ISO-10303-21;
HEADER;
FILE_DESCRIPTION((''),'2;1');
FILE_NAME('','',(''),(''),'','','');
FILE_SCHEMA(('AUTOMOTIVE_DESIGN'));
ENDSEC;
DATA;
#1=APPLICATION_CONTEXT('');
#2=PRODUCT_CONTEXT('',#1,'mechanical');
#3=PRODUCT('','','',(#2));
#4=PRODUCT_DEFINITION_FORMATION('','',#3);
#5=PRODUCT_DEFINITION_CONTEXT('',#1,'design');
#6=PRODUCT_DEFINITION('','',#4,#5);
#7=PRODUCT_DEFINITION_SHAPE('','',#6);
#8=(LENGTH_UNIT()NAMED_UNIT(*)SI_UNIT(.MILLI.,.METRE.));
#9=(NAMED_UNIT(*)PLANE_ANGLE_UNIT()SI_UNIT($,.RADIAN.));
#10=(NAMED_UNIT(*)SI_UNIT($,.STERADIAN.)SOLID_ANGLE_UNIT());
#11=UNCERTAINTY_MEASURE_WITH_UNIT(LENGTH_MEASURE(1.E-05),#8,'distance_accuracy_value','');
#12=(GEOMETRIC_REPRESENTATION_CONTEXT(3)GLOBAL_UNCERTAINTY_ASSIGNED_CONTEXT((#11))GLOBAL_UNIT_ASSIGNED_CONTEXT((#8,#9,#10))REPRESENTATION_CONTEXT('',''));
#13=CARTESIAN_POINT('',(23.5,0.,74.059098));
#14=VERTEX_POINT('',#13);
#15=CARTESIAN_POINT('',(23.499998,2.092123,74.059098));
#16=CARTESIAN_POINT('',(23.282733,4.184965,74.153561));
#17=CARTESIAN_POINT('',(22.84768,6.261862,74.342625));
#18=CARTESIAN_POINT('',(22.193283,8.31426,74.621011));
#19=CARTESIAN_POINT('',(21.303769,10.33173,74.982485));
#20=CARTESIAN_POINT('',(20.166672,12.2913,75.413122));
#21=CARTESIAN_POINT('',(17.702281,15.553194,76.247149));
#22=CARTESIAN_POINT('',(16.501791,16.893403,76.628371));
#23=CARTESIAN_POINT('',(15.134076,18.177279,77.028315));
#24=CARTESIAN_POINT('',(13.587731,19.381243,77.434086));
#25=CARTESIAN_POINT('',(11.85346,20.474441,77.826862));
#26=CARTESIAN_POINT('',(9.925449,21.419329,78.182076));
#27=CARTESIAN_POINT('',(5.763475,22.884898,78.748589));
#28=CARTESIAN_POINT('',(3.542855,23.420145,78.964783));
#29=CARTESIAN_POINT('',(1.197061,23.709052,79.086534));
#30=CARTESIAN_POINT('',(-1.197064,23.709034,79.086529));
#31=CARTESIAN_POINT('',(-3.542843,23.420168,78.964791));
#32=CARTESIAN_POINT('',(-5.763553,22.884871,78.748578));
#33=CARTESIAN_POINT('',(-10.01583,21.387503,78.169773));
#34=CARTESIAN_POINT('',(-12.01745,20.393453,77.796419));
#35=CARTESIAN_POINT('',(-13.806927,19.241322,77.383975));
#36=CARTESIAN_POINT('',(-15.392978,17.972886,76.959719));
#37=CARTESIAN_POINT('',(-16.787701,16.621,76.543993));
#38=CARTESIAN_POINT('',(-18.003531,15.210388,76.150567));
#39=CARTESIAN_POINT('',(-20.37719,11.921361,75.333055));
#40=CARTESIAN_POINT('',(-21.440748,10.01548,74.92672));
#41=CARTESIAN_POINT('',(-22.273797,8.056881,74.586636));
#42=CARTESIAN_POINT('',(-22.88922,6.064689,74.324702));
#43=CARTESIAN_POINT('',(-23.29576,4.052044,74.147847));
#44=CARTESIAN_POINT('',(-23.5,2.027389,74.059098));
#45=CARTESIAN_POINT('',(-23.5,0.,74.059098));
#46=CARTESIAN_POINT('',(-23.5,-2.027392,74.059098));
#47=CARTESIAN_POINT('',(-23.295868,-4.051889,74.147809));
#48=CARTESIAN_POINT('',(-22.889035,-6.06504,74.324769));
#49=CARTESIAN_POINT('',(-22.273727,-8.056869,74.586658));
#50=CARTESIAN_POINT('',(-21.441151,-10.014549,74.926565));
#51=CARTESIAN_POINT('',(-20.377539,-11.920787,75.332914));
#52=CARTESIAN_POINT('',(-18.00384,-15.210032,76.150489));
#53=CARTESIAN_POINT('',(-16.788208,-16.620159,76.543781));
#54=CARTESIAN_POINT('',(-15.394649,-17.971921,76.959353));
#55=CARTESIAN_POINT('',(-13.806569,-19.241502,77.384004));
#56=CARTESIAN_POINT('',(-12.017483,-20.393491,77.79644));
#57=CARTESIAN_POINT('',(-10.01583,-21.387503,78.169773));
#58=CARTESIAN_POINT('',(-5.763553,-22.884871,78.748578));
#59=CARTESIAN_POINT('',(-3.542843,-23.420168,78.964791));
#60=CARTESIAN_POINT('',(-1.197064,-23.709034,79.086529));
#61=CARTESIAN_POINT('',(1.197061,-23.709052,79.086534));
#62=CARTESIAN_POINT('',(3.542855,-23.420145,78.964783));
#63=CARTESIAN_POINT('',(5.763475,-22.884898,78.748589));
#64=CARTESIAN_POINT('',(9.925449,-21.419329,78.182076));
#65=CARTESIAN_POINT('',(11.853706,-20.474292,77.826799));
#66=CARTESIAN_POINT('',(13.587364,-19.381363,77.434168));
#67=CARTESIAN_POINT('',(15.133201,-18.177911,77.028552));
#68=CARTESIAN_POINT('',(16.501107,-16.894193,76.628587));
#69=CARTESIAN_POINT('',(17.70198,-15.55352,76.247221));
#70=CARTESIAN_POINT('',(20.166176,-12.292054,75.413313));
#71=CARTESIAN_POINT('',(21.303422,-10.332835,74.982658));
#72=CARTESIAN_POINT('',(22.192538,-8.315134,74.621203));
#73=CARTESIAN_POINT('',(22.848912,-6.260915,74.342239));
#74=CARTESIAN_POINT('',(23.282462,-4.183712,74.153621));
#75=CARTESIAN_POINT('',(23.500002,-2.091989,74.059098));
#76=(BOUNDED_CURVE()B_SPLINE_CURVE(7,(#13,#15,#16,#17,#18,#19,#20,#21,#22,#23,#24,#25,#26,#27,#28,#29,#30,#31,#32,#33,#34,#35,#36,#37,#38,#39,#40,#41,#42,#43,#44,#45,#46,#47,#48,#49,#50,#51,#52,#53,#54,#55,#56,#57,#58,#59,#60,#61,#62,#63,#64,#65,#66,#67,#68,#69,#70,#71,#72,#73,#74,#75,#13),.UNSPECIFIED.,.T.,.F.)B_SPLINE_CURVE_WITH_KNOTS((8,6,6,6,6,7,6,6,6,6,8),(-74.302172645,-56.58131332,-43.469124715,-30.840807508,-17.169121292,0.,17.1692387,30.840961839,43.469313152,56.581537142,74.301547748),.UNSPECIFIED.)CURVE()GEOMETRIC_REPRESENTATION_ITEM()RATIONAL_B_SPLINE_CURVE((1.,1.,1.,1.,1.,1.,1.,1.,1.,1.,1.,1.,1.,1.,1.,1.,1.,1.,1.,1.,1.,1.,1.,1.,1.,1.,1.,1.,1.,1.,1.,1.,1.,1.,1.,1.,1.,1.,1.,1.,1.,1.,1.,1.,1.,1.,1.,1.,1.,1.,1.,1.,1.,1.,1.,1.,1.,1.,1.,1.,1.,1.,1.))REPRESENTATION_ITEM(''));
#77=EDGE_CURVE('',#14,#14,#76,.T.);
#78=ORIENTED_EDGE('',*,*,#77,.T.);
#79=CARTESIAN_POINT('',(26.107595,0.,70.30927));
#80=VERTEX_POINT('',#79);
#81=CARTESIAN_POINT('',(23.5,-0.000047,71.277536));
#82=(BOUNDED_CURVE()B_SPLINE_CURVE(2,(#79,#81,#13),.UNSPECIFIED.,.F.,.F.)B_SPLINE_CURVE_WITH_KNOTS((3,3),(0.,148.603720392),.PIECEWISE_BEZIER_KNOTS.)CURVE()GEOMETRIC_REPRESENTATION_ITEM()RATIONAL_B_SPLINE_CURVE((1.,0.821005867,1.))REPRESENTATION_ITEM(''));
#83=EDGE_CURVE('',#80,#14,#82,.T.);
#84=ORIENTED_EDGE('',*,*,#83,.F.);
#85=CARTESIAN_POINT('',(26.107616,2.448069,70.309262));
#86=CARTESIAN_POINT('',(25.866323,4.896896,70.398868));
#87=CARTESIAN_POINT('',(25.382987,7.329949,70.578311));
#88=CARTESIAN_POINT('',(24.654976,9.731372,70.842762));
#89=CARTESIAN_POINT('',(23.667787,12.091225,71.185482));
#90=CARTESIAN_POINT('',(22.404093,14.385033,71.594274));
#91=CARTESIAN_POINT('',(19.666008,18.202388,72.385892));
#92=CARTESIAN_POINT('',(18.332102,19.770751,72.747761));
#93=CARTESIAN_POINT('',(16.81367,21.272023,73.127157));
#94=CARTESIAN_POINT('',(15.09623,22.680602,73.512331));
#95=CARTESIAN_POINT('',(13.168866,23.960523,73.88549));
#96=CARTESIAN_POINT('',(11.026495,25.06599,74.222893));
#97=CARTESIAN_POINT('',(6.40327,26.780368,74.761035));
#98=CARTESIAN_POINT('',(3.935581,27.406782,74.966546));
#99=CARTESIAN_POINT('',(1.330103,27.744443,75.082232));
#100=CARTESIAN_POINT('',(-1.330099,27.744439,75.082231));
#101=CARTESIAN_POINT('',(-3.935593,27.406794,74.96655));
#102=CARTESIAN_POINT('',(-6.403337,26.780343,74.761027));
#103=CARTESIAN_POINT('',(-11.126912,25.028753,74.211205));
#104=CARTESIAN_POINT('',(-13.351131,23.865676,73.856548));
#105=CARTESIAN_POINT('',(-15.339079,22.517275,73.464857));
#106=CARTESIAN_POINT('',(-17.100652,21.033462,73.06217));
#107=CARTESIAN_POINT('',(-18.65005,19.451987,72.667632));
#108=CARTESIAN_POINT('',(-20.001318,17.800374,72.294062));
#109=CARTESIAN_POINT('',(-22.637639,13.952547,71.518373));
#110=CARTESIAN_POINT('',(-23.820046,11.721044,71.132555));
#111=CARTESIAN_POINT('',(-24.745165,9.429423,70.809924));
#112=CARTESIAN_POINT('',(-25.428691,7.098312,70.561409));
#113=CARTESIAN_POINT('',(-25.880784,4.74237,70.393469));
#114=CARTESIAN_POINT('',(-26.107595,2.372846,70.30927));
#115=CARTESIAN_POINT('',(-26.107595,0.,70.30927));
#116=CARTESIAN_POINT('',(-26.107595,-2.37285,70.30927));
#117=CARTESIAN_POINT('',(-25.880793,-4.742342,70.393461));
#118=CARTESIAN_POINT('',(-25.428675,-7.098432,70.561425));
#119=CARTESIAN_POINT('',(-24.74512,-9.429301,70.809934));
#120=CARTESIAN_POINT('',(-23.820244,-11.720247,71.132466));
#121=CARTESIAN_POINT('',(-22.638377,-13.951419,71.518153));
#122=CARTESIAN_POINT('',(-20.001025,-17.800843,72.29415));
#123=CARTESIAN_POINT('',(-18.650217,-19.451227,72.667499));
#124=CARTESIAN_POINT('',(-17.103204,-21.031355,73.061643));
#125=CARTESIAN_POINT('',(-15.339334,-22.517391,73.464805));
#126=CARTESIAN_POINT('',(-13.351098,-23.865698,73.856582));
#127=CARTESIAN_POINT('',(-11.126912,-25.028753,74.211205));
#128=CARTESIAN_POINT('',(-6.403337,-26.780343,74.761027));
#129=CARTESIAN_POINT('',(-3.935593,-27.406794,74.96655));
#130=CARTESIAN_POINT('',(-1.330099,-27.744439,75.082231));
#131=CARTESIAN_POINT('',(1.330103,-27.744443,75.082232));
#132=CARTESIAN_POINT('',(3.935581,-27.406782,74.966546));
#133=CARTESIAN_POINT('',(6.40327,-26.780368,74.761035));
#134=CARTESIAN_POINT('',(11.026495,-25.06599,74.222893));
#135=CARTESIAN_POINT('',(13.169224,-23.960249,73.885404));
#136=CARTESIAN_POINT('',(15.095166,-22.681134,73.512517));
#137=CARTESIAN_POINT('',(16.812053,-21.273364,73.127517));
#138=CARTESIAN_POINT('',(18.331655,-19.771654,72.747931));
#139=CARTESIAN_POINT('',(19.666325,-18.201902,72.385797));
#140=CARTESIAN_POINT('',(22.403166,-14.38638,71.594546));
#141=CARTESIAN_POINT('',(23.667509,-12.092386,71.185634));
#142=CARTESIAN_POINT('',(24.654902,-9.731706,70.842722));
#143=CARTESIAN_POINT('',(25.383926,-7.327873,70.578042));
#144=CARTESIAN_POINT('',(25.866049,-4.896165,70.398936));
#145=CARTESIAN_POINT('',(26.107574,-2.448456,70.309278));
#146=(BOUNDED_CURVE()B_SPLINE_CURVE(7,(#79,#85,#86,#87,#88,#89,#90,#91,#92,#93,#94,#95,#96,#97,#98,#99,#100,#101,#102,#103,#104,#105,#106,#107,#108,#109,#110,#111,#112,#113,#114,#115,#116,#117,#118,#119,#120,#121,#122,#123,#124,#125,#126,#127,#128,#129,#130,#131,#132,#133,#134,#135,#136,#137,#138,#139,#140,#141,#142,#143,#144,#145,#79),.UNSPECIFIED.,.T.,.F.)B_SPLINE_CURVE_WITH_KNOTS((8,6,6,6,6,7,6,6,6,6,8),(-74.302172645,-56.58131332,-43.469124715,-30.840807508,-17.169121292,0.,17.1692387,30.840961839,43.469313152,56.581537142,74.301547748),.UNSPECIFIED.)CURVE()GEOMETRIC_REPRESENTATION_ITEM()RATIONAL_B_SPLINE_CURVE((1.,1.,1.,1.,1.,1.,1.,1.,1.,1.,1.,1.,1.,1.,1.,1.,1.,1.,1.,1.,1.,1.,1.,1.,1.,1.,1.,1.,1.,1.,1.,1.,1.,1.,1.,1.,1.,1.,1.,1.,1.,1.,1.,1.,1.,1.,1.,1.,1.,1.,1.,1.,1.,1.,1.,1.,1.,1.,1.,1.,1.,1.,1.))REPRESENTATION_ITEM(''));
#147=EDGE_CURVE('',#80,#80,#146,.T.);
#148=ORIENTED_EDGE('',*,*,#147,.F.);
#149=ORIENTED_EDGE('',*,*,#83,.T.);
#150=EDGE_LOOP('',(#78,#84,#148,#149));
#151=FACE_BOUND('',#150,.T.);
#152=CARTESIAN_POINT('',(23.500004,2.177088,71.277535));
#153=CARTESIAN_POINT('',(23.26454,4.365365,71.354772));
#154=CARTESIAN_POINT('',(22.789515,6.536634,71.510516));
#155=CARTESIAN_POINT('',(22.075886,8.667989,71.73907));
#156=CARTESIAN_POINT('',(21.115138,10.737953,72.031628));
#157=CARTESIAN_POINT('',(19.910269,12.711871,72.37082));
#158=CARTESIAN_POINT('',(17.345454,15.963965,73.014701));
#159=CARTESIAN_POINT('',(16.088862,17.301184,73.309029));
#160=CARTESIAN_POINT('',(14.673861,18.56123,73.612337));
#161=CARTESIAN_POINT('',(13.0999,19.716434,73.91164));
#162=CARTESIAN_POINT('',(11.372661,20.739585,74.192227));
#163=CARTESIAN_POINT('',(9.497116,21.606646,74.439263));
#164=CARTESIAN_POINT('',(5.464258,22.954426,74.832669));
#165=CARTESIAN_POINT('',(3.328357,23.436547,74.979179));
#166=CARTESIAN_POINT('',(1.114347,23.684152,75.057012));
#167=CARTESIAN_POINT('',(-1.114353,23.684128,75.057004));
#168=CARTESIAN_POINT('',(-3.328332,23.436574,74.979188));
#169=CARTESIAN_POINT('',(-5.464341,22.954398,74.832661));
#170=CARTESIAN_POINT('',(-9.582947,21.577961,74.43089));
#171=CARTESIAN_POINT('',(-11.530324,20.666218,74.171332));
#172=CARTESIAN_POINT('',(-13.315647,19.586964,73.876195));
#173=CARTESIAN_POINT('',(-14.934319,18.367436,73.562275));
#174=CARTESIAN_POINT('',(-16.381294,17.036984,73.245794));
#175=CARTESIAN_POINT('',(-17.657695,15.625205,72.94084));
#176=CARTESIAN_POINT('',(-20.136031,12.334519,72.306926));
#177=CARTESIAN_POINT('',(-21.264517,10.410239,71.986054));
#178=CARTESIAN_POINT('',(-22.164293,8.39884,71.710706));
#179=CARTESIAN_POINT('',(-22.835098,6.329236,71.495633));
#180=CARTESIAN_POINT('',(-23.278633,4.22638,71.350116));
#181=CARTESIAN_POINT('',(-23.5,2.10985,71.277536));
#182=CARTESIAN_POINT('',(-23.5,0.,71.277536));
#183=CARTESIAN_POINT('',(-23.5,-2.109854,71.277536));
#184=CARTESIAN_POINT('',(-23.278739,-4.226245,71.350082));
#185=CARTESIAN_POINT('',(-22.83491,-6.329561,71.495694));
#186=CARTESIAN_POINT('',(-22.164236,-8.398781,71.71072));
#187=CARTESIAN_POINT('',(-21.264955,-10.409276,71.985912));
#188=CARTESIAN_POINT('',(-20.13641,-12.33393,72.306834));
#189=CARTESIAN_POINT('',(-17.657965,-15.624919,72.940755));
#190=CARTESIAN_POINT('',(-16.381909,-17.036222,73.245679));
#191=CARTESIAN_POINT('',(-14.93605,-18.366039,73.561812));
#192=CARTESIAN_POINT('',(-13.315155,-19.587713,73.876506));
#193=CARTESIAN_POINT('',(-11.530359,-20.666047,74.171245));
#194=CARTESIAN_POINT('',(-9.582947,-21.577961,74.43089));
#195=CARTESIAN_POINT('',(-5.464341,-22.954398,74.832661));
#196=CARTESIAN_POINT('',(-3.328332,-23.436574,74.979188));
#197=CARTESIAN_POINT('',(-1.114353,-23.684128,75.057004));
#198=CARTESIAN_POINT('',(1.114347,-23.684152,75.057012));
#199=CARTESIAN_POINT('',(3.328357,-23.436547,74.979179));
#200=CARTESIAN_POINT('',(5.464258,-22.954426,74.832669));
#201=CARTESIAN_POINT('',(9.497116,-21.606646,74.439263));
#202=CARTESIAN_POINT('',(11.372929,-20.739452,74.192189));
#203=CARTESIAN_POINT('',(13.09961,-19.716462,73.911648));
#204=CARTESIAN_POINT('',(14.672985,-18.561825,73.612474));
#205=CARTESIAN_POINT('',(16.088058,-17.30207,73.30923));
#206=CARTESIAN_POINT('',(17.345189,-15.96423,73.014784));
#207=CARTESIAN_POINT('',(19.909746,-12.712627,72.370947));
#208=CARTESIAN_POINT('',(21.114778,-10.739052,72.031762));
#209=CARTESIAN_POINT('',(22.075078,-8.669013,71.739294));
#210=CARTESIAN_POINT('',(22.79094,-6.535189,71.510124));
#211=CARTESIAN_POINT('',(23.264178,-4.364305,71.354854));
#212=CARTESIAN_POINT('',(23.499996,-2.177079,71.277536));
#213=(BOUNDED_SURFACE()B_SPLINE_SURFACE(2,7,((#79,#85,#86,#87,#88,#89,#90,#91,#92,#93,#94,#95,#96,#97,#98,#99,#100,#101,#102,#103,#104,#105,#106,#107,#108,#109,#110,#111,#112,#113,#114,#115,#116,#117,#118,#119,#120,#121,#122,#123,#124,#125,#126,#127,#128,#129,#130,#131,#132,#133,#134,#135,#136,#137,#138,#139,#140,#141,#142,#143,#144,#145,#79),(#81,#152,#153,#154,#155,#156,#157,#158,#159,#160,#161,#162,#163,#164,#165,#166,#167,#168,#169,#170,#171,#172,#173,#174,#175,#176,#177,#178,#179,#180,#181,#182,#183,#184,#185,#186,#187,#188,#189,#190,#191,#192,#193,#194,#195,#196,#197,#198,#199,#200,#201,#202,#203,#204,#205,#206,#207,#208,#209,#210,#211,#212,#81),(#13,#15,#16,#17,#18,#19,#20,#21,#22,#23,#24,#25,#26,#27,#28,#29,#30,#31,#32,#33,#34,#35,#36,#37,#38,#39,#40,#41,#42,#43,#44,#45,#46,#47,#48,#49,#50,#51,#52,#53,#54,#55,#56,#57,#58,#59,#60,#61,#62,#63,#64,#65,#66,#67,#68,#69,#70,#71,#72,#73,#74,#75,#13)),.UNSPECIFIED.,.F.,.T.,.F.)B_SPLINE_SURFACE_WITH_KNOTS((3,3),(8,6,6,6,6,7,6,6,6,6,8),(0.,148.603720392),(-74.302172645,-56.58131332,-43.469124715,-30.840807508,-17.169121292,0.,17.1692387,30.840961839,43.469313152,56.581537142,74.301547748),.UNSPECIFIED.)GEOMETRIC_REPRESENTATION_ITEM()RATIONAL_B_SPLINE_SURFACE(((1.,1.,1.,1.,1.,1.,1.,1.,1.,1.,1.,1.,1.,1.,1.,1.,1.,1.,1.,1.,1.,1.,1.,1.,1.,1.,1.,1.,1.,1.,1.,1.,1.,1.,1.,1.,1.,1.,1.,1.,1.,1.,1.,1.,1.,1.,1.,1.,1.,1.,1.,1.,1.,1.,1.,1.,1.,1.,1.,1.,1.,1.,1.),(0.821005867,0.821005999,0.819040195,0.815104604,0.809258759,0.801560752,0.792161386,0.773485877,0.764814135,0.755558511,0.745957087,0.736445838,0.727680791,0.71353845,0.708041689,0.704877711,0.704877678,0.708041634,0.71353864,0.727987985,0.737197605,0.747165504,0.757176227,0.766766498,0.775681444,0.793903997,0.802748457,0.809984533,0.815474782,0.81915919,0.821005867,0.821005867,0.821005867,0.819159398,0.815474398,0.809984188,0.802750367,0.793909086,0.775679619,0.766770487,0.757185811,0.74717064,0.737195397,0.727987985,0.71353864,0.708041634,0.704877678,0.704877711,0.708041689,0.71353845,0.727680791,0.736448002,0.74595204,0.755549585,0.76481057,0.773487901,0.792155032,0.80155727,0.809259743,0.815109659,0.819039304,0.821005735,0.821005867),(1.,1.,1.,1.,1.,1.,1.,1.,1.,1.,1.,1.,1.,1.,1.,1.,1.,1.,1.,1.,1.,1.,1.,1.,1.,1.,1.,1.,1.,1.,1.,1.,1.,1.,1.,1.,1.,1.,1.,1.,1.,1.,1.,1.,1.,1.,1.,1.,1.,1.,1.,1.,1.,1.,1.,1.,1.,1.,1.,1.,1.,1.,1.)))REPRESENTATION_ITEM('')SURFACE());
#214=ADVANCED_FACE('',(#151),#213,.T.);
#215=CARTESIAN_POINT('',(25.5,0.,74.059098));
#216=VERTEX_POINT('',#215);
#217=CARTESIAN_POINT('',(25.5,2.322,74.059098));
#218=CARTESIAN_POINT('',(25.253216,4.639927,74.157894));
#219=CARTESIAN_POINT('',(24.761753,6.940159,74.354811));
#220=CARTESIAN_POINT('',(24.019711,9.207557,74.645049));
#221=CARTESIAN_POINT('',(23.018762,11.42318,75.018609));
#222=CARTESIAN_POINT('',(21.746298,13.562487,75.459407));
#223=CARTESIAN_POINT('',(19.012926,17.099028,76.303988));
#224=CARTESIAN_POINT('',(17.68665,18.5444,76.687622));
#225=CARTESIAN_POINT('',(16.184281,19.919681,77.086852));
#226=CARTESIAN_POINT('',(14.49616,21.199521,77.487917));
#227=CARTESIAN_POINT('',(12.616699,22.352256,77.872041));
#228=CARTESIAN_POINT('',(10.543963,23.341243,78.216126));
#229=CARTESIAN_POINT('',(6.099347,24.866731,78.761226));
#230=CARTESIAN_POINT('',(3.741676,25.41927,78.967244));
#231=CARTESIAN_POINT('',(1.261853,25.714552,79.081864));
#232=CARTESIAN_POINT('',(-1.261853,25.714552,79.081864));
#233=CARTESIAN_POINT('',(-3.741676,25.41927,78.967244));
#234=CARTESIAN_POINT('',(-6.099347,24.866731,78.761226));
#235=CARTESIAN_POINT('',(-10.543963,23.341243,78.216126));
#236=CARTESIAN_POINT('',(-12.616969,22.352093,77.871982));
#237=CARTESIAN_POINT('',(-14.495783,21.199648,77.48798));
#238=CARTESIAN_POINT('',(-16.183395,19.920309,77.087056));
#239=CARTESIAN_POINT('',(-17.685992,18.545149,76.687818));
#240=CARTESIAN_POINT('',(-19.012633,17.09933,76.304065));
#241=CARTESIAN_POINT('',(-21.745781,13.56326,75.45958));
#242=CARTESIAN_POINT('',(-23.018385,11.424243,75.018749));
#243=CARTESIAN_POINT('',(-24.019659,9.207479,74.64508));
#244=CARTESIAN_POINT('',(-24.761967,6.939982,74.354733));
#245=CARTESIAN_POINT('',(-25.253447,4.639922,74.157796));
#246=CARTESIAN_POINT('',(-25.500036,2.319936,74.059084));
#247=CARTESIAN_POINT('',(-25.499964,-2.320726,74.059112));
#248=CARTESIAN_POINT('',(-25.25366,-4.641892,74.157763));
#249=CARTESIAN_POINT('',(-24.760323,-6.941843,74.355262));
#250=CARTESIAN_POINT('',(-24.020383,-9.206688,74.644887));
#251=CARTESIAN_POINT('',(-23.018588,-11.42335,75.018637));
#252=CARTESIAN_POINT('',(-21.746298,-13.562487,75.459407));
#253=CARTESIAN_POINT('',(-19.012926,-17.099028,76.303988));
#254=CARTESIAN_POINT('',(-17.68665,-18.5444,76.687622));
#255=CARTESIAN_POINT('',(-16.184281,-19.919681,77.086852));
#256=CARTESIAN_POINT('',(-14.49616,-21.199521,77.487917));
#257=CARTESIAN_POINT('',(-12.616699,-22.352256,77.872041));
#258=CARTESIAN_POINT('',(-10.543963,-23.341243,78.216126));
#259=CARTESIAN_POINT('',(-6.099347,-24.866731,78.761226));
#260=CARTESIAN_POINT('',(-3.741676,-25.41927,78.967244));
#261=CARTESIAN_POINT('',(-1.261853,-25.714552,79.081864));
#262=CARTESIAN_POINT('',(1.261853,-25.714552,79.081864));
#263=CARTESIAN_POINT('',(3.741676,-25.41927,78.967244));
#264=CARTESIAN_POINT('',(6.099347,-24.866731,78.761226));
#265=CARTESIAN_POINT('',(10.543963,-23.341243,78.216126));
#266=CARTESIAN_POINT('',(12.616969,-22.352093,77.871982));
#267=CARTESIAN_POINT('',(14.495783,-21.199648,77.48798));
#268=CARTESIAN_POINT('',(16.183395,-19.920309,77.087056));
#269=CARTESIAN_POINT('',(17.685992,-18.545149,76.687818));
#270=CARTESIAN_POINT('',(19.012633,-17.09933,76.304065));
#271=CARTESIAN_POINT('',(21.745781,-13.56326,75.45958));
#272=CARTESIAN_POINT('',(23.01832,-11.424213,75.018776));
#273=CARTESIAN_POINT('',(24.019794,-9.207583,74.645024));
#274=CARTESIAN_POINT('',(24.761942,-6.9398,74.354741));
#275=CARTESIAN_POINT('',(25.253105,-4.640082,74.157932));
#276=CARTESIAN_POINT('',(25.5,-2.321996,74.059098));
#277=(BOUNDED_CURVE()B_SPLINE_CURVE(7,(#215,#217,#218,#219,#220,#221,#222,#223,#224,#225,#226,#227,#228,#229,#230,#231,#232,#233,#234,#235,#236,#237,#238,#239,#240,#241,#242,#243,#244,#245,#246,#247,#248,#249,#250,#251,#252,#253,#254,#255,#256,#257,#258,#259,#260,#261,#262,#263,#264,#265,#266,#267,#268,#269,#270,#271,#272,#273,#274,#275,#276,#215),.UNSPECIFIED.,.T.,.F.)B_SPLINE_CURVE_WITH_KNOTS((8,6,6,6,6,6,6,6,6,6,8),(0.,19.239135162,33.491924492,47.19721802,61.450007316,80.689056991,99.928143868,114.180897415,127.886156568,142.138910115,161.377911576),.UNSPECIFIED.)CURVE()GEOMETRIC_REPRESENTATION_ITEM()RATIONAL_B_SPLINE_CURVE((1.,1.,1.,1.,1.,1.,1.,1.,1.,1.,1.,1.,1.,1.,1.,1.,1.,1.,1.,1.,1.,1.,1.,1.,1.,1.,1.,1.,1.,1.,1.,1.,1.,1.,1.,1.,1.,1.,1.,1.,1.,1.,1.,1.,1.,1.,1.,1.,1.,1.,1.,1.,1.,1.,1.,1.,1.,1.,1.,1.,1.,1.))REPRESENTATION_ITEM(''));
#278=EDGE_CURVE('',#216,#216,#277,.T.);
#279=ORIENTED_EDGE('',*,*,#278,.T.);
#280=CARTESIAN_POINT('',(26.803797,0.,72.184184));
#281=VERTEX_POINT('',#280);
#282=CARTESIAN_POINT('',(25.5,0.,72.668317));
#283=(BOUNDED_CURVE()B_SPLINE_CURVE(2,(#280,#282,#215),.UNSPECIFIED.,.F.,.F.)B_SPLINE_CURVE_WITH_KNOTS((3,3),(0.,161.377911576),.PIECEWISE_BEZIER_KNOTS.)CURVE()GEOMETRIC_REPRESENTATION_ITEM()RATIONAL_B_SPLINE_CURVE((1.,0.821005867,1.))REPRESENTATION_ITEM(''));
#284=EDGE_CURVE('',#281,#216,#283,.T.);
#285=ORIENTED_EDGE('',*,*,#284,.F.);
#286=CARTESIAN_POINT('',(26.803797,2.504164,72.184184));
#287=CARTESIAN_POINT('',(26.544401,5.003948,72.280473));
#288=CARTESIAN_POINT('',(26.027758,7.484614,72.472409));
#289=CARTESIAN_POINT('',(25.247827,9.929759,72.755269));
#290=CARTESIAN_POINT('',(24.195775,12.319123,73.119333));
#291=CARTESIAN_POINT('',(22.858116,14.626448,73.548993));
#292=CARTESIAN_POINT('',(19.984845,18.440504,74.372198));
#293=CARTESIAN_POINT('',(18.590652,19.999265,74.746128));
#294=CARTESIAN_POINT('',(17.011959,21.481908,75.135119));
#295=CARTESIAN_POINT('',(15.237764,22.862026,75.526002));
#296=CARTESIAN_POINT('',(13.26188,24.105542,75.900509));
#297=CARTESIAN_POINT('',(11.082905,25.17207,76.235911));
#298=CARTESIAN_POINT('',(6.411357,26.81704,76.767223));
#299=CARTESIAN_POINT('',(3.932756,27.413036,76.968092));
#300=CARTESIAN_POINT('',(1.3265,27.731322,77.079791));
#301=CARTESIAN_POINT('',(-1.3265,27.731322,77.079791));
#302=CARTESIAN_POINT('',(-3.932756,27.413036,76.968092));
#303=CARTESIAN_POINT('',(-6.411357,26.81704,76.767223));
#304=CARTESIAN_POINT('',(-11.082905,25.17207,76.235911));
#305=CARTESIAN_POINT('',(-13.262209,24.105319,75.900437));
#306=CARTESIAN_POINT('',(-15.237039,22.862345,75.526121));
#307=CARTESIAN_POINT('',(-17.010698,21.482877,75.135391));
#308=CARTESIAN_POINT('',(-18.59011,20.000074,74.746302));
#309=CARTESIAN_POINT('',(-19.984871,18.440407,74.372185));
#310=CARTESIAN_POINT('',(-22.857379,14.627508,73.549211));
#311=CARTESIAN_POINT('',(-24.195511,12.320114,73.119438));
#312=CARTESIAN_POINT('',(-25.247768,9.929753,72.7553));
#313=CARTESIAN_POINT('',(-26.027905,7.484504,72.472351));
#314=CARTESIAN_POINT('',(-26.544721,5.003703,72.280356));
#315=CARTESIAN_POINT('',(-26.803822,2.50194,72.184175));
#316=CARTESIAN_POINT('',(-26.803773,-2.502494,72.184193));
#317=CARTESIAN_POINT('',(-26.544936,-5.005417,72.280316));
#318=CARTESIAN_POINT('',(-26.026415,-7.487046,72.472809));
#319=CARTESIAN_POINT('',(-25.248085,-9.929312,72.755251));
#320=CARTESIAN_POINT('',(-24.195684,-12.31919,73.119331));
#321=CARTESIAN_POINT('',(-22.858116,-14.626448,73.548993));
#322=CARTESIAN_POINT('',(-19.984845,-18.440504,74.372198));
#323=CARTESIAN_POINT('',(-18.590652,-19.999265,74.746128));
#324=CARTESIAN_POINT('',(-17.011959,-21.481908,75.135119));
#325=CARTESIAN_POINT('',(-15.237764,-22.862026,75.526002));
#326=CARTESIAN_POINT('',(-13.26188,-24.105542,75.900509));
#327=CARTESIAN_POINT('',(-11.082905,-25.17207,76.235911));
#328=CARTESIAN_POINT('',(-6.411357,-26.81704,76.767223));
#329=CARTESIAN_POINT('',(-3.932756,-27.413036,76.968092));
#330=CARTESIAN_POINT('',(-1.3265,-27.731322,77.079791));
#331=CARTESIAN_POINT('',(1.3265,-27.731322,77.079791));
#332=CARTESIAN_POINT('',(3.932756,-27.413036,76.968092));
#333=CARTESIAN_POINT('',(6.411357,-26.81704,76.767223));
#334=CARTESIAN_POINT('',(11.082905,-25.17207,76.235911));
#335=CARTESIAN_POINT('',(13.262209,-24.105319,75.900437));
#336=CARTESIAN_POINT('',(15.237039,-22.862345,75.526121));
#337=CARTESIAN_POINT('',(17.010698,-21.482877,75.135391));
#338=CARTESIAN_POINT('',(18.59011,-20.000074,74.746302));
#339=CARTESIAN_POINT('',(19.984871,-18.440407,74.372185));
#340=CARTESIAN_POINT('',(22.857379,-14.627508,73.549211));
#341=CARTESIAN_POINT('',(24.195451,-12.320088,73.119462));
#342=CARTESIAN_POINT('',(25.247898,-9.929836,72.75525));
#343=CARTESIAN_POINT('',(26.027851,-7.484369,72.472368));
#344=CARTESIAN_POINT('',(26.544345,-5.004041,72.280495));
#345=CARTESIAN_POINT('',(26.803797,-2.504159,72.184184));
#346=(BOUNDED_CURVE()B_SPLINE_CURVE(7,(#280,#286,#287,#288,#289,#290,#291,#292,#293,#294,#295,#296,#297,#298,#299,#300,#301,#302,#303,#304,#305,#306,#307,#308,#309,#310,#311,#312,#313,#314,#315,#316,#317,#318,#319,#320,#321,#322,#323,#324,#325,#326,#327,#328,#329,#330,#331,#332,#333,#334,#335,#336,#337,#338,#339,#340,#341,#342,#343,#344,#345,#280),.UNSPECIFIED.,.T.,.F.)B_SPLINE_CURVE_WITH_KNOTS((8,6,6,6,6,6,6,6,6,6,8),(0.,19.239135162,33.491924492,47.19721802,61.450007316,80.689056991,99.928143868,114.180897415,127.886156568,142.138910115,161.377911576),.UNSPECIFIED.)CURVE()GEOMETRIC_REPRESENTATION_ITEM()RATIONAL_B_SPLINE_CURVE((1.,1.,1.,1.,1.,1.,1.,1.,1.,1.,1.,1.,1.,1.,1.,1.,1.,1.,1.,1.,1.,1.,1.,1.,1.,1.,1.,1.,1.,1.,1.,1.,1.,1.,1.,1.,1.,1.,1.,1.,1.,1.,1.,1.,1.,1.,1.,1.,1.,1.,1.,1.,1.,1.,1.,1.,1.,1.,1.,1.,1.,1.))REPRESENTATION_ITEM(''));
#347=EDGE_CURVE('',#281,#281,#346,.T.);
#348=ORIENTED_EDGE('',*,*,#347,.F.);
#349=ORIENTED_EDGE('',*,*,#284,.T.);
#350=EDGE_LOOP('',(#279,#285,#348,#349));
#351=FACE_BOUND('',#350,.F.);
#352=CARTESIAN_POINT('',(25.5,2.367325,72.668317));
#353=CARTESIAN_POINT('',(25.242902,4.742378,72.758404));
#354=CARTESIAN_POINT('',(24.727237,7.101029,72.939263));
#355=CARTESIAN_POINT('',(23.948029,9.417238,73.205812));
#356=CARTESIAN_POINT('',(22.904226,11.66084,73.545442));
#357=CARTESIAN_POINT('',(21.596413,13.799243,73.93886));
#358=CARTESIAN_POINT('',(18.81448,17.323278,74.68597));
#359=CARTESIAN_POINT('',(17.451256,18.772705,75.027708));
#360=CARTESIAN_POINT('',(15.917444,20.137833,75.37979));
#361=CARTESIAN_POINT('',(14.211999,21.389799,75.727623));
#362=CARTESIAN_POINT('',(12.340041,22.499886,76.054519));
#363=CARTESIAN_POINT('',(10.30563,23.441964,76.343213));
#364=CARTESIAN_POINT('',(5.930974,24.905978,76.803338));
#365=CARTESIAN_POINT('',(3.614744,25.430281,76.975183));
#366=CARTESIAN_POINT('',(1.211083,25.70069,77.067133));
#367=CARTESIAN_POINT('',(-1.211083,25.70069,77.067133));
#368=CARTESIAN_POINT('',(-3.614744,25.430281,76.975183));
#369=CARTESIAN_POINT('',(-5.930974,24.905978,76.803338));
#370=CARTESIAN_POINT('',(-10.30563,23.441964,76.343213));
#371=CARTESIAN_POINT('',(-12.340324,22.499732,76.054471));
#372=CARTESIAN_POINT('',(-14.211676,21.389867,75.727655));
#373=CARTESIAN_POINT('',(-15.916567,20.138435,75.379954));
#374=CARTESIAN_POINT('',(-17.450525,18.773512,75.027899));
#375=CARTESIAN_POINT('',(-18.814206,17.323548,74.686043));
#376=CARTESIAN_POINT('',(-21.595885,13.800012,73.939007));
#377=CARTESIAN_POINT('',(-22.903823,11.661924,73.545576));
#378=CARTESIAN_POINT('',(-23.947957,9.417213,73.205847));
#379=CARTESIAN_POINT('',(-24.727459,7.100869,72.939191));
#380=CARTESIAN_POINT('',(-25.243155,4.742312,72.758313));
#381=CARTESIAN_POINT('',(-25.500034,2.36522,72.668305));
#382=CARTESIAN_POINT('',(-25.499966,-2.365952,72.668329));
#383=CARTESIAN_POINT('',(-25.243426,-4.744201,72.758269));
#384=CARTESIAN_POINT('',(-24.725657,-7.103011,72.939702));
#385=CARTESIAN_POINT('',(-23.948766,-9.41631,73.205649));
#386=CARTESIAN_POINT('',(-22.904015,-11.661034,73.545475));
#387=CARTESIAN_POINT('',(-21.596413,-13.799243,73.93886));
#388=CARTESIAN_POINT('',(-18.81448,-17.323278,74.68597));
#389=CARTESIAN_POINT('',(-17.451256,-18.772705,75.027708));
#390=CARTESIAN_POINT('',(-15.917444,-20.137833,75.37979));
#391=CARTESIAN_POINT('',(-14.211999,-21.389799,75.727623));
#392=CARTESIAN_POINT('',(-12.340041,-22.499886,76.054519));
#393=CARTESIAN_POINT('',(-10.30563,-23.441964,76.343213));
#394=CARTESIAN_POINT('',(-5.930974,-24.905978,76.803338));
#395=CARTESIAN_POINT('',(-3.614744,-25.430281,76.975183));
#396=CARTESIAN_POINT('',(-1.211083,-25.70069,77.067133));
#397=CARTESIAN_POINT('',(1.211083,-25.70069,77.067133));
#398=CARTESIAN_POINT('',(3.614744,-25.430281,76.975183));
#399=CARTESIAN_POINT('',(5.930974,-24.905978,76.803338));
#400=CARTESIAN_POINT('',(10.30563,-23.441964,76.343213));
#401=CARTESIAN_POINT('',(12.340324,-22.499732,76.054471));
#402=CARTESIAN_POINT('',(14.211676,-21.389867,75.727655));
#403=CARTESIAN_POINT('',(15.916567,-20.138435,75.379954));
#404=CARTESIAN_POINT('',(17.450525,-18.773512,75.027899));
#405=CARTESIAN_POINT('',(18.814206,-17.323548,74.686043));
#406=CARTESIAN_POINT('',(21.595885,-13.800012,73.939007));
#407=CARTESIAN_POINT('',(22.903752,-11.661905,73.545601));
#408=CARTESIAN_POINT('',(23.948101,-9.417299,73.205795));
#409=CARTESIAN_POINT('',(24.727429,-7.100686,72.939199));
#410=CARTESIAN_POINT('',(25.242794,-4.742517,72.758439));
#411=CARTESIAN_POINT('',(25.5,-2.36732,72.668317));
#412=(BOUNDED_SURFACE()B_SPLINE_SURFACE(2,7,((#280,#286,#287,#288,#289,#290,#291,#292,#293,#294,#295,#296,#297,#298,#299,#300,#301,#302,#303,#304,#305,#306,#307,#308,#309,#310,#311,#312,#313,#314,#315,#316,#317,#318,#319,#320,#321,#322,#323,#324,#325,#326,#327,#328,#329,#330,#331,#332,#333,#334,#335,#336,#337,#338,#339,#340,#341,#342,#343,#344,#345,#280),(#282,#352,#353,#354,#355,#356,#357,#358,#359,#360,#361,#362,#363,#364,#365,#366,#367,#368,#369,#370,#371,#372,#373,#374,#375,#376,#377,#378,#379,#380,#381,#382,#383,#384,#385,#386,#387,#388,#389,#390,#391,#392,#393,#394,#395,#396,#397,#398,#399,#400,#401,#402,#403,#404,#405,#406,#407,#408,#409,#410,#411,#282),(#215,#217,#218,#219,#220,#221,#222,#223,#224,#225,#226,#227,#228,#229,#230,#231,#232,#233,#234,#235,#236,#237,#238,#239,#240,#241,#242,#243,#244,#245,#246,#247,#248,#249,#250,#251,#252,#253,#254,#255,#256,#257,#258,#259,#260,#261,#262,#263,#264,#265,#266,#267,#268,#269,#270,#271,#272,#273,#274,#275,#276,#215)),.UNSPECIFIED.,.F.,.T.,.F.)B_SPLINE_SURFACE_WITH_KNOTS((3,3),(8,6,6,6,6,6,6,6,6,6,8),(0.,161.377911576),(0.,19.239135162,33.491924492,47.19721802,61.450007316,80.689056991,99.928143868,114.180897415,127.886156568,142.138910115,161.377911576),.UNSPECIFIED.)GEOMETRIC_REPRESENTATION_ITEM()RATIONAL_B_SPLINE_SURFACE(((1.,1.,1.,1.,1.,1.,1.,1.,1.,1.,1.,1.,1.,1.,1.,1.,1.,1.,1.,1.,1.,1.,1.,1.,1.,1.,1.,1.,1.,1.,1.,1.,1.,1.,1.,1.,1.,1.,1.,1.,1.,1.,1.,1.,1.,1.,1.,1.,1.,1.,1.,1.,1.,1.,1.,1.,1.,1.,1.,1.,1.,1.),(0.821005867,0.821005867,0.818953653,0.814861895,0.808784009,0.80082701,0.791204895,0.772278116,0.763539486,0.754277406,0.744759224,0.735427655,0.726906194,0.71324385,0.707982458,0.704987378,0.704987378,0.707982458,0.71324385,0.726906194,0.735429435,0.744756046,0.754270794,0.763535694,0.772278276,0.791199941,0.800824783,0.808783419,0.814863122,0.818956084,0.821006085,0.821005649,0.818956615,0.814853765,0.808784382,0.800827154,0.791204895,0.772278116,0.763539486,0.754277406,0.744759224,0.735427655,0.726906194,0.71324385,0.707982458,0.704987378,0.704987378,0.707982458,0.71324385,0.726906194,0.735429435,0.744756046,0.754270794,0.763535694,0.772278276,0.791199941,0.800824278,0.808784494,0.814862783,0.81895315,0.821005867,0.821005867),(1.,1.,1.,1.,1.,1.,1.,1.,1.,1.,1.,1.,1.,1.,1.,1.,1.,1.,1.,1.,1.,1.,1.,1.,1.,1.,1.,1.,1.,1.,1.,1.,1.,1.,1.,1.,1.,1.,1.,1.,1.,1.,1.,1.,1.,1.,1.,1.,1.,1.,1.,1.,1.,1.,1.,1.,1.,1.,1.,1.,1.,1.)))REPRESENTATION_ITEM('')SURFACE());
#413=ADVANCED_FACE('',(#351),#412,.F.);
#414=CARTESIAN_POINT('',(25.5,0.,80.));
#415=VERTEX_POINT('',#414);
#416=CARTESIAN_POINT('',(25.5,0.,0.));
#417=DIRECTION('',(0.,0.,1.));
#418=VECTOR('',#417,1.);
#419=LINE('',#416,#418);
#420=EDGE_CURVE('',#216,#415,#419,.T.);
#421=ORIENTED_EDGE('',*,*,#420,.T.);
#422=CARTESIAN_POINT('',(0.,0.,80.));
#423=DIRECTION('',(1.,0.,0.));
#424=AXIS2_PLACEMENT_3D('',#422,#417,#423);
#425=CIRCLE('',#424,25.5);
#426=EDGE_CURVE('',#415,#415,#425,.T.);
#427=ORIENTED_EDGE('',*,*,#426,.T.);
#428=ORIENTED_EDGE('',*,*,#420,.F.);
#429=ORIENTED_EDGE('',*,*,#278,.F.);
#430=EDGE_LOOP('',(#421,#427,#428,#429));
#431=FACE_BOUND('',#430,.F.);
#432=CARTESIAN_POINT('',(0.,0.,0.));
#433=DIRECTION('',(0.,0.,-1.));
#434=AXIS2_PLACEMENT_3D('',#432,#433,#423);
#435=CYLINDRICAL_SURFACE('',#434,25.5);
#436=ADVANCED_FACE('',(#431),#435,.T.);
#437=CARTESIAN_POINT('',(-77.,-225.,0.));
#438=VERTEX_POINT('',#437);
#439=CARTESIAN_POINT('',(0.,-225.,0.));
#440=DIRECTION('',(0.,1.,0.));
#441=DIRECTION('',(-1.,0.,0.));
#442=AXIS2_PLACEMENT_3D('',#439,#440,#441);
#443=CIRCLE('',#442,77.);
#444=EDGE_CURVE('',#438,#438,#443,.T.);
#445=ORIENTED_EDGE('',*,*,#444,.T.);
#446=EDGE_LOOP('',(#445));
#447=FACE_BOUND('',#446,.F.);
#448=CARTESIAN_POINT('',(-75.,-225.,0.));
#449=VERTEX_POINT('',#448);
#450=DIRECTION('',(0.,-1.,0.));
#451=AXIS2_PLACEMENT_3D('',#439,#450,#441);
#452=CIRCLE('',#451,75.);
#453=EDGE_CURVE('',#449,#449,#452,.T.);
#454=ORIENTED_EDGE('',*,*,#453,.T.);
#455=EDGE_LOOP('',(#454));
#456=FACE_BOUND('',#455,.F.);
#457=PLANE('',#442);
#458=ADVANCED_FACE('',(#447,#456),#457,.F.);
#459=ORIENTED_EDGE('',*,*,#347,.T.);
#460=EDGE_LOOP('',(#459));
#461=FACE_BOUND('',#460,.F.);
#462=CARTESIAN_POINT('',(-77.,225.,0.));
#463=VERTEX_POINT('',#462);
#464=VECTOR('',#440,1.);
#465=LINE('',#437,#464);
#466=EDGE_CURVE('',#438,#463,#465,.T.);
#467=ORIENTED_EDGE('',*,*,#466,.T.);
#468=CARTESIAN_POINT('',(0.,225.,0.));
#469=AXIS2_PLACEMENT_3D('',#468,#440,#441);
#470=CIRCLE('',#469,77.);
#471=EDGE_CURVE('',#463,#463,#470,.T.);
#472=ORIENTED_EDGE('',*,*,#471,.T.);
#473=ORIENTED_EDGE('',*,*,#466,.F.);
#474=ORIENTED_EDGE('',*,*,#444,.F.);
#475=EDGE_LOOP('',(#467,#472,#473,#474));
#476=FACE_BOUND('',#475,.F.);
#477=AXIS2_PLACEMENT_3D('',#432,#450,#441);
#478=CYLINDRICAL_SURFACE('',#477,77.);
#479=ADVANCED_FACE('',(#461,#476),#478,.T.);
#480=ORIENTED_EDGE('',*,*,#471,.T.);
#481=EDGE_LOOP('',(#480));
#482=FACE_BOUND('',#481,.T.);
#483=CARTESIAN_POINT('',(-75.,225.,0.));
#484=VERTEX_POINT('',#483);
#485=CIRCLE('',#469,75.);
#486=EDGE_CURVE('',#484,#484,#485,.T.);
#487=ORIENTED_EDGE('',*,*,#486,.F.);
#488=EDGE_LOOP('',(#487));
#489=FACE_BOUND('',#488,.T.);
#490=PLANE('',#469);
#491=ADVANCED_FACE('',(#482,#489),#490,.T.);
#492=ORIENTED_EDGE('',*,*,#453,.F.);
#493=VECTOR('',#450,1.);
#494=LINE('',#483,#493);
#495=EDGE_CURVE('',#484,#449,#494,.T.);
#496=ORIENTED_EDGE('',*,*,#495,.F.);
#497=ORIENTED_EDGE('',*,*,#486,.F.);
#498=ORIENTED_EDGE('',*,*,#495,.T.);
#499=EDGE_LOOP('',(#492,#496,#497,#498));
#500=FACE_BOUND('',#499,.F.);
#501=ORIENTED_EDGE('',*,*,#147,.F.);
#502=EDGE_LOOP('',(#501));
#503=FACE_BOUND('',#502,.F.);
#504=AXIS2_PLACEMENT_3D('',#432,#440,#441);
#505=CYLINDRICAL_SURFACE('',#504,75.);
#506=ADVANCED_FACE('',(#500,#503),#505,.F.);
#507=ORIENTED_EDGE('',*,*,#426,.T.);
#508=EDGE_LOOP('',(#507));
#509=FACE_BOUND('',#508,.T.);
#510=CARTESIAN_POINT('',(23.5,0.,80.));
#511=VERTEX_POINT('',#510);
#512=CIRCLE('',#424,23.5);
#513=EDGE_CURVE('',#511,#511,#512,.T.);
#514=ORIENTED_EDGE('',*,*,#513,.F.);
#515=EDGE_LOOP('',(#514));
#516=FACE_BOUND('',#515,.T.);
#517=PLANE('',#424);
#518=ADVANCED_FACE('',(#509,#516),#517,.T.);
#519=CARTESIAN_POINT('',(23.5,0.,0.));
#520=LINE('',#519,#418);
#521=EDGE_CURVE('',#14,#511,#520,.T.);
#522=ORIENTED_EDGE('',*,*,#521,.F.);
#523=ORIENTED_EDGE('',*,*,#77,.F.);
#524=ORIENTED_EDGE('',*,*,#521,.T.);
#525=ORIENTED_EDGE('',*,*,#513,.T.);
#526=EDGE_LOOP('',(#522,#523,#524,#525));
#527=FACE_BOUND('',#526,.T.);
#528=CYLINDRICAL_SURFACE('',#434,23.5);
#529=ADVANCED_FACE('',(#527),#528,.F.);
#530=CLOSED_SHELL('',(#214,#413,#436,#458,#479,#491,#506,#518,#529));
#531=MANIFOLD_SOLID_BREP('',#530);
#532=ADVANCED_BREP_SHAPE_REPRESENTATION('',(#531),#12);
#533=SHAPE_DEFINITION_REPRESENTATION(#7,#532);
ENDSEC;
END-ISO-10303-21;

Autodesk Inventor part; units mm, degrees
ref_plane "YZ Plane" through (0, 0, 0) normal (1, 0, 0) x (0, 1, 0)
ref_plane "XZ Plane" through (0, 0, 0) normal (0, 1, 0) x (-1, 0, 0)
ref_plane "XY Plane" through (0, 0, 0) normal (0, 0, 1) x (1, 0, 0)
sketch "Szkic8" plane through (0, 0, 0) normal (0, 1, 0) x (-1, 0, 0)
  circle A0 centre (0, 0) radius 77
  circle A1 centre (0, 0) radius 75
  dimension "d53" = 154
  dimension "d54" = 2
extrude "Wyciągnięcie proste2" add sketch "Szkic8" along normal mid plane 450
sketch "Szkic13" plane through (0, 0, 0) normal (0, 0, 1) x (1, 0, 0)
  circle A0 centre (0, 0) radius 25.5
  circle A1 centre (0, 0) radius 23.5
  dimension "d67" = 51
  dimension "d68" = 2
extrude "Wyciągnięcie proste6" add sketch "Szkic13" along normal blind 80
sketch "Szkic14" plane through (0, 0, 80) normal (0, 0, 1) x (1, 0, 0)
  circle A0 centre (0, 0) radius 23.5 projected
extrude "Wyciągnięcie proste7" cut sketch "Szkic14" against normal blind 80
sketch "Szkic15" plane through (0, -225, 0) normal (0, -1, 0) x (1, 0, 0)
  circle A0 centre (0, 0) radius 75 projected
extrude "Wyciągnięcie proste8" cut sketch "Szkic15" against normal blind 450
fillet "Zaokrąglenie3" radius 2 2 edges at (0.0001, 25.5, 77) (-0.0001, -25.5, 77)
fillet "Zaokrąglenie4" radius 4 2 edges at (-0.0051, -23.5, 75) (-0.005, 23.5, 75)
equation "\"d53\" = OD"
equation "\"d54\" = THK"
equation "\"d55\" = L1"
equation "\"d67\" = OD2"
equation "\"d68\" = THK"
equation "\"d69\" = L2"
equation "\"d71\" = L2"
equation "\"d73\" = L1"
equation "\"d75\" = THK"
equation "\"d76\" = 2 * THK"
equation "\"SzerokośćGięciaPodcięcia\" = Grubość"
equation "\"RozmiarPodcięciaNarożnika\" = 4 * Grubość"
equation "\"PromieńPrzejścia\" = PromieńGięcia"
equation "\"Rozmiar_promienia_Jacobiego\" = PromieńGięcia"
equation "\"Wielk_odstępu\" = Grubość"
equation "\"d2\" = PromieńGięcia"
equation "\"d23\" = PromieńGięcia"
equation "\"OD\" = 154"
equation "\"THK\" = 2"
equation "\"L1\" = 450"
equation "\"L2\" = 80"
equation "\"OD2\" = 51"
equation "\"Grubość\" = 1.5"
equation "\"PromieńGięcia\" = 3"
properties part number "Trójnik red. krótki  Ø154 51 154 s=2 L=450" material "304"
